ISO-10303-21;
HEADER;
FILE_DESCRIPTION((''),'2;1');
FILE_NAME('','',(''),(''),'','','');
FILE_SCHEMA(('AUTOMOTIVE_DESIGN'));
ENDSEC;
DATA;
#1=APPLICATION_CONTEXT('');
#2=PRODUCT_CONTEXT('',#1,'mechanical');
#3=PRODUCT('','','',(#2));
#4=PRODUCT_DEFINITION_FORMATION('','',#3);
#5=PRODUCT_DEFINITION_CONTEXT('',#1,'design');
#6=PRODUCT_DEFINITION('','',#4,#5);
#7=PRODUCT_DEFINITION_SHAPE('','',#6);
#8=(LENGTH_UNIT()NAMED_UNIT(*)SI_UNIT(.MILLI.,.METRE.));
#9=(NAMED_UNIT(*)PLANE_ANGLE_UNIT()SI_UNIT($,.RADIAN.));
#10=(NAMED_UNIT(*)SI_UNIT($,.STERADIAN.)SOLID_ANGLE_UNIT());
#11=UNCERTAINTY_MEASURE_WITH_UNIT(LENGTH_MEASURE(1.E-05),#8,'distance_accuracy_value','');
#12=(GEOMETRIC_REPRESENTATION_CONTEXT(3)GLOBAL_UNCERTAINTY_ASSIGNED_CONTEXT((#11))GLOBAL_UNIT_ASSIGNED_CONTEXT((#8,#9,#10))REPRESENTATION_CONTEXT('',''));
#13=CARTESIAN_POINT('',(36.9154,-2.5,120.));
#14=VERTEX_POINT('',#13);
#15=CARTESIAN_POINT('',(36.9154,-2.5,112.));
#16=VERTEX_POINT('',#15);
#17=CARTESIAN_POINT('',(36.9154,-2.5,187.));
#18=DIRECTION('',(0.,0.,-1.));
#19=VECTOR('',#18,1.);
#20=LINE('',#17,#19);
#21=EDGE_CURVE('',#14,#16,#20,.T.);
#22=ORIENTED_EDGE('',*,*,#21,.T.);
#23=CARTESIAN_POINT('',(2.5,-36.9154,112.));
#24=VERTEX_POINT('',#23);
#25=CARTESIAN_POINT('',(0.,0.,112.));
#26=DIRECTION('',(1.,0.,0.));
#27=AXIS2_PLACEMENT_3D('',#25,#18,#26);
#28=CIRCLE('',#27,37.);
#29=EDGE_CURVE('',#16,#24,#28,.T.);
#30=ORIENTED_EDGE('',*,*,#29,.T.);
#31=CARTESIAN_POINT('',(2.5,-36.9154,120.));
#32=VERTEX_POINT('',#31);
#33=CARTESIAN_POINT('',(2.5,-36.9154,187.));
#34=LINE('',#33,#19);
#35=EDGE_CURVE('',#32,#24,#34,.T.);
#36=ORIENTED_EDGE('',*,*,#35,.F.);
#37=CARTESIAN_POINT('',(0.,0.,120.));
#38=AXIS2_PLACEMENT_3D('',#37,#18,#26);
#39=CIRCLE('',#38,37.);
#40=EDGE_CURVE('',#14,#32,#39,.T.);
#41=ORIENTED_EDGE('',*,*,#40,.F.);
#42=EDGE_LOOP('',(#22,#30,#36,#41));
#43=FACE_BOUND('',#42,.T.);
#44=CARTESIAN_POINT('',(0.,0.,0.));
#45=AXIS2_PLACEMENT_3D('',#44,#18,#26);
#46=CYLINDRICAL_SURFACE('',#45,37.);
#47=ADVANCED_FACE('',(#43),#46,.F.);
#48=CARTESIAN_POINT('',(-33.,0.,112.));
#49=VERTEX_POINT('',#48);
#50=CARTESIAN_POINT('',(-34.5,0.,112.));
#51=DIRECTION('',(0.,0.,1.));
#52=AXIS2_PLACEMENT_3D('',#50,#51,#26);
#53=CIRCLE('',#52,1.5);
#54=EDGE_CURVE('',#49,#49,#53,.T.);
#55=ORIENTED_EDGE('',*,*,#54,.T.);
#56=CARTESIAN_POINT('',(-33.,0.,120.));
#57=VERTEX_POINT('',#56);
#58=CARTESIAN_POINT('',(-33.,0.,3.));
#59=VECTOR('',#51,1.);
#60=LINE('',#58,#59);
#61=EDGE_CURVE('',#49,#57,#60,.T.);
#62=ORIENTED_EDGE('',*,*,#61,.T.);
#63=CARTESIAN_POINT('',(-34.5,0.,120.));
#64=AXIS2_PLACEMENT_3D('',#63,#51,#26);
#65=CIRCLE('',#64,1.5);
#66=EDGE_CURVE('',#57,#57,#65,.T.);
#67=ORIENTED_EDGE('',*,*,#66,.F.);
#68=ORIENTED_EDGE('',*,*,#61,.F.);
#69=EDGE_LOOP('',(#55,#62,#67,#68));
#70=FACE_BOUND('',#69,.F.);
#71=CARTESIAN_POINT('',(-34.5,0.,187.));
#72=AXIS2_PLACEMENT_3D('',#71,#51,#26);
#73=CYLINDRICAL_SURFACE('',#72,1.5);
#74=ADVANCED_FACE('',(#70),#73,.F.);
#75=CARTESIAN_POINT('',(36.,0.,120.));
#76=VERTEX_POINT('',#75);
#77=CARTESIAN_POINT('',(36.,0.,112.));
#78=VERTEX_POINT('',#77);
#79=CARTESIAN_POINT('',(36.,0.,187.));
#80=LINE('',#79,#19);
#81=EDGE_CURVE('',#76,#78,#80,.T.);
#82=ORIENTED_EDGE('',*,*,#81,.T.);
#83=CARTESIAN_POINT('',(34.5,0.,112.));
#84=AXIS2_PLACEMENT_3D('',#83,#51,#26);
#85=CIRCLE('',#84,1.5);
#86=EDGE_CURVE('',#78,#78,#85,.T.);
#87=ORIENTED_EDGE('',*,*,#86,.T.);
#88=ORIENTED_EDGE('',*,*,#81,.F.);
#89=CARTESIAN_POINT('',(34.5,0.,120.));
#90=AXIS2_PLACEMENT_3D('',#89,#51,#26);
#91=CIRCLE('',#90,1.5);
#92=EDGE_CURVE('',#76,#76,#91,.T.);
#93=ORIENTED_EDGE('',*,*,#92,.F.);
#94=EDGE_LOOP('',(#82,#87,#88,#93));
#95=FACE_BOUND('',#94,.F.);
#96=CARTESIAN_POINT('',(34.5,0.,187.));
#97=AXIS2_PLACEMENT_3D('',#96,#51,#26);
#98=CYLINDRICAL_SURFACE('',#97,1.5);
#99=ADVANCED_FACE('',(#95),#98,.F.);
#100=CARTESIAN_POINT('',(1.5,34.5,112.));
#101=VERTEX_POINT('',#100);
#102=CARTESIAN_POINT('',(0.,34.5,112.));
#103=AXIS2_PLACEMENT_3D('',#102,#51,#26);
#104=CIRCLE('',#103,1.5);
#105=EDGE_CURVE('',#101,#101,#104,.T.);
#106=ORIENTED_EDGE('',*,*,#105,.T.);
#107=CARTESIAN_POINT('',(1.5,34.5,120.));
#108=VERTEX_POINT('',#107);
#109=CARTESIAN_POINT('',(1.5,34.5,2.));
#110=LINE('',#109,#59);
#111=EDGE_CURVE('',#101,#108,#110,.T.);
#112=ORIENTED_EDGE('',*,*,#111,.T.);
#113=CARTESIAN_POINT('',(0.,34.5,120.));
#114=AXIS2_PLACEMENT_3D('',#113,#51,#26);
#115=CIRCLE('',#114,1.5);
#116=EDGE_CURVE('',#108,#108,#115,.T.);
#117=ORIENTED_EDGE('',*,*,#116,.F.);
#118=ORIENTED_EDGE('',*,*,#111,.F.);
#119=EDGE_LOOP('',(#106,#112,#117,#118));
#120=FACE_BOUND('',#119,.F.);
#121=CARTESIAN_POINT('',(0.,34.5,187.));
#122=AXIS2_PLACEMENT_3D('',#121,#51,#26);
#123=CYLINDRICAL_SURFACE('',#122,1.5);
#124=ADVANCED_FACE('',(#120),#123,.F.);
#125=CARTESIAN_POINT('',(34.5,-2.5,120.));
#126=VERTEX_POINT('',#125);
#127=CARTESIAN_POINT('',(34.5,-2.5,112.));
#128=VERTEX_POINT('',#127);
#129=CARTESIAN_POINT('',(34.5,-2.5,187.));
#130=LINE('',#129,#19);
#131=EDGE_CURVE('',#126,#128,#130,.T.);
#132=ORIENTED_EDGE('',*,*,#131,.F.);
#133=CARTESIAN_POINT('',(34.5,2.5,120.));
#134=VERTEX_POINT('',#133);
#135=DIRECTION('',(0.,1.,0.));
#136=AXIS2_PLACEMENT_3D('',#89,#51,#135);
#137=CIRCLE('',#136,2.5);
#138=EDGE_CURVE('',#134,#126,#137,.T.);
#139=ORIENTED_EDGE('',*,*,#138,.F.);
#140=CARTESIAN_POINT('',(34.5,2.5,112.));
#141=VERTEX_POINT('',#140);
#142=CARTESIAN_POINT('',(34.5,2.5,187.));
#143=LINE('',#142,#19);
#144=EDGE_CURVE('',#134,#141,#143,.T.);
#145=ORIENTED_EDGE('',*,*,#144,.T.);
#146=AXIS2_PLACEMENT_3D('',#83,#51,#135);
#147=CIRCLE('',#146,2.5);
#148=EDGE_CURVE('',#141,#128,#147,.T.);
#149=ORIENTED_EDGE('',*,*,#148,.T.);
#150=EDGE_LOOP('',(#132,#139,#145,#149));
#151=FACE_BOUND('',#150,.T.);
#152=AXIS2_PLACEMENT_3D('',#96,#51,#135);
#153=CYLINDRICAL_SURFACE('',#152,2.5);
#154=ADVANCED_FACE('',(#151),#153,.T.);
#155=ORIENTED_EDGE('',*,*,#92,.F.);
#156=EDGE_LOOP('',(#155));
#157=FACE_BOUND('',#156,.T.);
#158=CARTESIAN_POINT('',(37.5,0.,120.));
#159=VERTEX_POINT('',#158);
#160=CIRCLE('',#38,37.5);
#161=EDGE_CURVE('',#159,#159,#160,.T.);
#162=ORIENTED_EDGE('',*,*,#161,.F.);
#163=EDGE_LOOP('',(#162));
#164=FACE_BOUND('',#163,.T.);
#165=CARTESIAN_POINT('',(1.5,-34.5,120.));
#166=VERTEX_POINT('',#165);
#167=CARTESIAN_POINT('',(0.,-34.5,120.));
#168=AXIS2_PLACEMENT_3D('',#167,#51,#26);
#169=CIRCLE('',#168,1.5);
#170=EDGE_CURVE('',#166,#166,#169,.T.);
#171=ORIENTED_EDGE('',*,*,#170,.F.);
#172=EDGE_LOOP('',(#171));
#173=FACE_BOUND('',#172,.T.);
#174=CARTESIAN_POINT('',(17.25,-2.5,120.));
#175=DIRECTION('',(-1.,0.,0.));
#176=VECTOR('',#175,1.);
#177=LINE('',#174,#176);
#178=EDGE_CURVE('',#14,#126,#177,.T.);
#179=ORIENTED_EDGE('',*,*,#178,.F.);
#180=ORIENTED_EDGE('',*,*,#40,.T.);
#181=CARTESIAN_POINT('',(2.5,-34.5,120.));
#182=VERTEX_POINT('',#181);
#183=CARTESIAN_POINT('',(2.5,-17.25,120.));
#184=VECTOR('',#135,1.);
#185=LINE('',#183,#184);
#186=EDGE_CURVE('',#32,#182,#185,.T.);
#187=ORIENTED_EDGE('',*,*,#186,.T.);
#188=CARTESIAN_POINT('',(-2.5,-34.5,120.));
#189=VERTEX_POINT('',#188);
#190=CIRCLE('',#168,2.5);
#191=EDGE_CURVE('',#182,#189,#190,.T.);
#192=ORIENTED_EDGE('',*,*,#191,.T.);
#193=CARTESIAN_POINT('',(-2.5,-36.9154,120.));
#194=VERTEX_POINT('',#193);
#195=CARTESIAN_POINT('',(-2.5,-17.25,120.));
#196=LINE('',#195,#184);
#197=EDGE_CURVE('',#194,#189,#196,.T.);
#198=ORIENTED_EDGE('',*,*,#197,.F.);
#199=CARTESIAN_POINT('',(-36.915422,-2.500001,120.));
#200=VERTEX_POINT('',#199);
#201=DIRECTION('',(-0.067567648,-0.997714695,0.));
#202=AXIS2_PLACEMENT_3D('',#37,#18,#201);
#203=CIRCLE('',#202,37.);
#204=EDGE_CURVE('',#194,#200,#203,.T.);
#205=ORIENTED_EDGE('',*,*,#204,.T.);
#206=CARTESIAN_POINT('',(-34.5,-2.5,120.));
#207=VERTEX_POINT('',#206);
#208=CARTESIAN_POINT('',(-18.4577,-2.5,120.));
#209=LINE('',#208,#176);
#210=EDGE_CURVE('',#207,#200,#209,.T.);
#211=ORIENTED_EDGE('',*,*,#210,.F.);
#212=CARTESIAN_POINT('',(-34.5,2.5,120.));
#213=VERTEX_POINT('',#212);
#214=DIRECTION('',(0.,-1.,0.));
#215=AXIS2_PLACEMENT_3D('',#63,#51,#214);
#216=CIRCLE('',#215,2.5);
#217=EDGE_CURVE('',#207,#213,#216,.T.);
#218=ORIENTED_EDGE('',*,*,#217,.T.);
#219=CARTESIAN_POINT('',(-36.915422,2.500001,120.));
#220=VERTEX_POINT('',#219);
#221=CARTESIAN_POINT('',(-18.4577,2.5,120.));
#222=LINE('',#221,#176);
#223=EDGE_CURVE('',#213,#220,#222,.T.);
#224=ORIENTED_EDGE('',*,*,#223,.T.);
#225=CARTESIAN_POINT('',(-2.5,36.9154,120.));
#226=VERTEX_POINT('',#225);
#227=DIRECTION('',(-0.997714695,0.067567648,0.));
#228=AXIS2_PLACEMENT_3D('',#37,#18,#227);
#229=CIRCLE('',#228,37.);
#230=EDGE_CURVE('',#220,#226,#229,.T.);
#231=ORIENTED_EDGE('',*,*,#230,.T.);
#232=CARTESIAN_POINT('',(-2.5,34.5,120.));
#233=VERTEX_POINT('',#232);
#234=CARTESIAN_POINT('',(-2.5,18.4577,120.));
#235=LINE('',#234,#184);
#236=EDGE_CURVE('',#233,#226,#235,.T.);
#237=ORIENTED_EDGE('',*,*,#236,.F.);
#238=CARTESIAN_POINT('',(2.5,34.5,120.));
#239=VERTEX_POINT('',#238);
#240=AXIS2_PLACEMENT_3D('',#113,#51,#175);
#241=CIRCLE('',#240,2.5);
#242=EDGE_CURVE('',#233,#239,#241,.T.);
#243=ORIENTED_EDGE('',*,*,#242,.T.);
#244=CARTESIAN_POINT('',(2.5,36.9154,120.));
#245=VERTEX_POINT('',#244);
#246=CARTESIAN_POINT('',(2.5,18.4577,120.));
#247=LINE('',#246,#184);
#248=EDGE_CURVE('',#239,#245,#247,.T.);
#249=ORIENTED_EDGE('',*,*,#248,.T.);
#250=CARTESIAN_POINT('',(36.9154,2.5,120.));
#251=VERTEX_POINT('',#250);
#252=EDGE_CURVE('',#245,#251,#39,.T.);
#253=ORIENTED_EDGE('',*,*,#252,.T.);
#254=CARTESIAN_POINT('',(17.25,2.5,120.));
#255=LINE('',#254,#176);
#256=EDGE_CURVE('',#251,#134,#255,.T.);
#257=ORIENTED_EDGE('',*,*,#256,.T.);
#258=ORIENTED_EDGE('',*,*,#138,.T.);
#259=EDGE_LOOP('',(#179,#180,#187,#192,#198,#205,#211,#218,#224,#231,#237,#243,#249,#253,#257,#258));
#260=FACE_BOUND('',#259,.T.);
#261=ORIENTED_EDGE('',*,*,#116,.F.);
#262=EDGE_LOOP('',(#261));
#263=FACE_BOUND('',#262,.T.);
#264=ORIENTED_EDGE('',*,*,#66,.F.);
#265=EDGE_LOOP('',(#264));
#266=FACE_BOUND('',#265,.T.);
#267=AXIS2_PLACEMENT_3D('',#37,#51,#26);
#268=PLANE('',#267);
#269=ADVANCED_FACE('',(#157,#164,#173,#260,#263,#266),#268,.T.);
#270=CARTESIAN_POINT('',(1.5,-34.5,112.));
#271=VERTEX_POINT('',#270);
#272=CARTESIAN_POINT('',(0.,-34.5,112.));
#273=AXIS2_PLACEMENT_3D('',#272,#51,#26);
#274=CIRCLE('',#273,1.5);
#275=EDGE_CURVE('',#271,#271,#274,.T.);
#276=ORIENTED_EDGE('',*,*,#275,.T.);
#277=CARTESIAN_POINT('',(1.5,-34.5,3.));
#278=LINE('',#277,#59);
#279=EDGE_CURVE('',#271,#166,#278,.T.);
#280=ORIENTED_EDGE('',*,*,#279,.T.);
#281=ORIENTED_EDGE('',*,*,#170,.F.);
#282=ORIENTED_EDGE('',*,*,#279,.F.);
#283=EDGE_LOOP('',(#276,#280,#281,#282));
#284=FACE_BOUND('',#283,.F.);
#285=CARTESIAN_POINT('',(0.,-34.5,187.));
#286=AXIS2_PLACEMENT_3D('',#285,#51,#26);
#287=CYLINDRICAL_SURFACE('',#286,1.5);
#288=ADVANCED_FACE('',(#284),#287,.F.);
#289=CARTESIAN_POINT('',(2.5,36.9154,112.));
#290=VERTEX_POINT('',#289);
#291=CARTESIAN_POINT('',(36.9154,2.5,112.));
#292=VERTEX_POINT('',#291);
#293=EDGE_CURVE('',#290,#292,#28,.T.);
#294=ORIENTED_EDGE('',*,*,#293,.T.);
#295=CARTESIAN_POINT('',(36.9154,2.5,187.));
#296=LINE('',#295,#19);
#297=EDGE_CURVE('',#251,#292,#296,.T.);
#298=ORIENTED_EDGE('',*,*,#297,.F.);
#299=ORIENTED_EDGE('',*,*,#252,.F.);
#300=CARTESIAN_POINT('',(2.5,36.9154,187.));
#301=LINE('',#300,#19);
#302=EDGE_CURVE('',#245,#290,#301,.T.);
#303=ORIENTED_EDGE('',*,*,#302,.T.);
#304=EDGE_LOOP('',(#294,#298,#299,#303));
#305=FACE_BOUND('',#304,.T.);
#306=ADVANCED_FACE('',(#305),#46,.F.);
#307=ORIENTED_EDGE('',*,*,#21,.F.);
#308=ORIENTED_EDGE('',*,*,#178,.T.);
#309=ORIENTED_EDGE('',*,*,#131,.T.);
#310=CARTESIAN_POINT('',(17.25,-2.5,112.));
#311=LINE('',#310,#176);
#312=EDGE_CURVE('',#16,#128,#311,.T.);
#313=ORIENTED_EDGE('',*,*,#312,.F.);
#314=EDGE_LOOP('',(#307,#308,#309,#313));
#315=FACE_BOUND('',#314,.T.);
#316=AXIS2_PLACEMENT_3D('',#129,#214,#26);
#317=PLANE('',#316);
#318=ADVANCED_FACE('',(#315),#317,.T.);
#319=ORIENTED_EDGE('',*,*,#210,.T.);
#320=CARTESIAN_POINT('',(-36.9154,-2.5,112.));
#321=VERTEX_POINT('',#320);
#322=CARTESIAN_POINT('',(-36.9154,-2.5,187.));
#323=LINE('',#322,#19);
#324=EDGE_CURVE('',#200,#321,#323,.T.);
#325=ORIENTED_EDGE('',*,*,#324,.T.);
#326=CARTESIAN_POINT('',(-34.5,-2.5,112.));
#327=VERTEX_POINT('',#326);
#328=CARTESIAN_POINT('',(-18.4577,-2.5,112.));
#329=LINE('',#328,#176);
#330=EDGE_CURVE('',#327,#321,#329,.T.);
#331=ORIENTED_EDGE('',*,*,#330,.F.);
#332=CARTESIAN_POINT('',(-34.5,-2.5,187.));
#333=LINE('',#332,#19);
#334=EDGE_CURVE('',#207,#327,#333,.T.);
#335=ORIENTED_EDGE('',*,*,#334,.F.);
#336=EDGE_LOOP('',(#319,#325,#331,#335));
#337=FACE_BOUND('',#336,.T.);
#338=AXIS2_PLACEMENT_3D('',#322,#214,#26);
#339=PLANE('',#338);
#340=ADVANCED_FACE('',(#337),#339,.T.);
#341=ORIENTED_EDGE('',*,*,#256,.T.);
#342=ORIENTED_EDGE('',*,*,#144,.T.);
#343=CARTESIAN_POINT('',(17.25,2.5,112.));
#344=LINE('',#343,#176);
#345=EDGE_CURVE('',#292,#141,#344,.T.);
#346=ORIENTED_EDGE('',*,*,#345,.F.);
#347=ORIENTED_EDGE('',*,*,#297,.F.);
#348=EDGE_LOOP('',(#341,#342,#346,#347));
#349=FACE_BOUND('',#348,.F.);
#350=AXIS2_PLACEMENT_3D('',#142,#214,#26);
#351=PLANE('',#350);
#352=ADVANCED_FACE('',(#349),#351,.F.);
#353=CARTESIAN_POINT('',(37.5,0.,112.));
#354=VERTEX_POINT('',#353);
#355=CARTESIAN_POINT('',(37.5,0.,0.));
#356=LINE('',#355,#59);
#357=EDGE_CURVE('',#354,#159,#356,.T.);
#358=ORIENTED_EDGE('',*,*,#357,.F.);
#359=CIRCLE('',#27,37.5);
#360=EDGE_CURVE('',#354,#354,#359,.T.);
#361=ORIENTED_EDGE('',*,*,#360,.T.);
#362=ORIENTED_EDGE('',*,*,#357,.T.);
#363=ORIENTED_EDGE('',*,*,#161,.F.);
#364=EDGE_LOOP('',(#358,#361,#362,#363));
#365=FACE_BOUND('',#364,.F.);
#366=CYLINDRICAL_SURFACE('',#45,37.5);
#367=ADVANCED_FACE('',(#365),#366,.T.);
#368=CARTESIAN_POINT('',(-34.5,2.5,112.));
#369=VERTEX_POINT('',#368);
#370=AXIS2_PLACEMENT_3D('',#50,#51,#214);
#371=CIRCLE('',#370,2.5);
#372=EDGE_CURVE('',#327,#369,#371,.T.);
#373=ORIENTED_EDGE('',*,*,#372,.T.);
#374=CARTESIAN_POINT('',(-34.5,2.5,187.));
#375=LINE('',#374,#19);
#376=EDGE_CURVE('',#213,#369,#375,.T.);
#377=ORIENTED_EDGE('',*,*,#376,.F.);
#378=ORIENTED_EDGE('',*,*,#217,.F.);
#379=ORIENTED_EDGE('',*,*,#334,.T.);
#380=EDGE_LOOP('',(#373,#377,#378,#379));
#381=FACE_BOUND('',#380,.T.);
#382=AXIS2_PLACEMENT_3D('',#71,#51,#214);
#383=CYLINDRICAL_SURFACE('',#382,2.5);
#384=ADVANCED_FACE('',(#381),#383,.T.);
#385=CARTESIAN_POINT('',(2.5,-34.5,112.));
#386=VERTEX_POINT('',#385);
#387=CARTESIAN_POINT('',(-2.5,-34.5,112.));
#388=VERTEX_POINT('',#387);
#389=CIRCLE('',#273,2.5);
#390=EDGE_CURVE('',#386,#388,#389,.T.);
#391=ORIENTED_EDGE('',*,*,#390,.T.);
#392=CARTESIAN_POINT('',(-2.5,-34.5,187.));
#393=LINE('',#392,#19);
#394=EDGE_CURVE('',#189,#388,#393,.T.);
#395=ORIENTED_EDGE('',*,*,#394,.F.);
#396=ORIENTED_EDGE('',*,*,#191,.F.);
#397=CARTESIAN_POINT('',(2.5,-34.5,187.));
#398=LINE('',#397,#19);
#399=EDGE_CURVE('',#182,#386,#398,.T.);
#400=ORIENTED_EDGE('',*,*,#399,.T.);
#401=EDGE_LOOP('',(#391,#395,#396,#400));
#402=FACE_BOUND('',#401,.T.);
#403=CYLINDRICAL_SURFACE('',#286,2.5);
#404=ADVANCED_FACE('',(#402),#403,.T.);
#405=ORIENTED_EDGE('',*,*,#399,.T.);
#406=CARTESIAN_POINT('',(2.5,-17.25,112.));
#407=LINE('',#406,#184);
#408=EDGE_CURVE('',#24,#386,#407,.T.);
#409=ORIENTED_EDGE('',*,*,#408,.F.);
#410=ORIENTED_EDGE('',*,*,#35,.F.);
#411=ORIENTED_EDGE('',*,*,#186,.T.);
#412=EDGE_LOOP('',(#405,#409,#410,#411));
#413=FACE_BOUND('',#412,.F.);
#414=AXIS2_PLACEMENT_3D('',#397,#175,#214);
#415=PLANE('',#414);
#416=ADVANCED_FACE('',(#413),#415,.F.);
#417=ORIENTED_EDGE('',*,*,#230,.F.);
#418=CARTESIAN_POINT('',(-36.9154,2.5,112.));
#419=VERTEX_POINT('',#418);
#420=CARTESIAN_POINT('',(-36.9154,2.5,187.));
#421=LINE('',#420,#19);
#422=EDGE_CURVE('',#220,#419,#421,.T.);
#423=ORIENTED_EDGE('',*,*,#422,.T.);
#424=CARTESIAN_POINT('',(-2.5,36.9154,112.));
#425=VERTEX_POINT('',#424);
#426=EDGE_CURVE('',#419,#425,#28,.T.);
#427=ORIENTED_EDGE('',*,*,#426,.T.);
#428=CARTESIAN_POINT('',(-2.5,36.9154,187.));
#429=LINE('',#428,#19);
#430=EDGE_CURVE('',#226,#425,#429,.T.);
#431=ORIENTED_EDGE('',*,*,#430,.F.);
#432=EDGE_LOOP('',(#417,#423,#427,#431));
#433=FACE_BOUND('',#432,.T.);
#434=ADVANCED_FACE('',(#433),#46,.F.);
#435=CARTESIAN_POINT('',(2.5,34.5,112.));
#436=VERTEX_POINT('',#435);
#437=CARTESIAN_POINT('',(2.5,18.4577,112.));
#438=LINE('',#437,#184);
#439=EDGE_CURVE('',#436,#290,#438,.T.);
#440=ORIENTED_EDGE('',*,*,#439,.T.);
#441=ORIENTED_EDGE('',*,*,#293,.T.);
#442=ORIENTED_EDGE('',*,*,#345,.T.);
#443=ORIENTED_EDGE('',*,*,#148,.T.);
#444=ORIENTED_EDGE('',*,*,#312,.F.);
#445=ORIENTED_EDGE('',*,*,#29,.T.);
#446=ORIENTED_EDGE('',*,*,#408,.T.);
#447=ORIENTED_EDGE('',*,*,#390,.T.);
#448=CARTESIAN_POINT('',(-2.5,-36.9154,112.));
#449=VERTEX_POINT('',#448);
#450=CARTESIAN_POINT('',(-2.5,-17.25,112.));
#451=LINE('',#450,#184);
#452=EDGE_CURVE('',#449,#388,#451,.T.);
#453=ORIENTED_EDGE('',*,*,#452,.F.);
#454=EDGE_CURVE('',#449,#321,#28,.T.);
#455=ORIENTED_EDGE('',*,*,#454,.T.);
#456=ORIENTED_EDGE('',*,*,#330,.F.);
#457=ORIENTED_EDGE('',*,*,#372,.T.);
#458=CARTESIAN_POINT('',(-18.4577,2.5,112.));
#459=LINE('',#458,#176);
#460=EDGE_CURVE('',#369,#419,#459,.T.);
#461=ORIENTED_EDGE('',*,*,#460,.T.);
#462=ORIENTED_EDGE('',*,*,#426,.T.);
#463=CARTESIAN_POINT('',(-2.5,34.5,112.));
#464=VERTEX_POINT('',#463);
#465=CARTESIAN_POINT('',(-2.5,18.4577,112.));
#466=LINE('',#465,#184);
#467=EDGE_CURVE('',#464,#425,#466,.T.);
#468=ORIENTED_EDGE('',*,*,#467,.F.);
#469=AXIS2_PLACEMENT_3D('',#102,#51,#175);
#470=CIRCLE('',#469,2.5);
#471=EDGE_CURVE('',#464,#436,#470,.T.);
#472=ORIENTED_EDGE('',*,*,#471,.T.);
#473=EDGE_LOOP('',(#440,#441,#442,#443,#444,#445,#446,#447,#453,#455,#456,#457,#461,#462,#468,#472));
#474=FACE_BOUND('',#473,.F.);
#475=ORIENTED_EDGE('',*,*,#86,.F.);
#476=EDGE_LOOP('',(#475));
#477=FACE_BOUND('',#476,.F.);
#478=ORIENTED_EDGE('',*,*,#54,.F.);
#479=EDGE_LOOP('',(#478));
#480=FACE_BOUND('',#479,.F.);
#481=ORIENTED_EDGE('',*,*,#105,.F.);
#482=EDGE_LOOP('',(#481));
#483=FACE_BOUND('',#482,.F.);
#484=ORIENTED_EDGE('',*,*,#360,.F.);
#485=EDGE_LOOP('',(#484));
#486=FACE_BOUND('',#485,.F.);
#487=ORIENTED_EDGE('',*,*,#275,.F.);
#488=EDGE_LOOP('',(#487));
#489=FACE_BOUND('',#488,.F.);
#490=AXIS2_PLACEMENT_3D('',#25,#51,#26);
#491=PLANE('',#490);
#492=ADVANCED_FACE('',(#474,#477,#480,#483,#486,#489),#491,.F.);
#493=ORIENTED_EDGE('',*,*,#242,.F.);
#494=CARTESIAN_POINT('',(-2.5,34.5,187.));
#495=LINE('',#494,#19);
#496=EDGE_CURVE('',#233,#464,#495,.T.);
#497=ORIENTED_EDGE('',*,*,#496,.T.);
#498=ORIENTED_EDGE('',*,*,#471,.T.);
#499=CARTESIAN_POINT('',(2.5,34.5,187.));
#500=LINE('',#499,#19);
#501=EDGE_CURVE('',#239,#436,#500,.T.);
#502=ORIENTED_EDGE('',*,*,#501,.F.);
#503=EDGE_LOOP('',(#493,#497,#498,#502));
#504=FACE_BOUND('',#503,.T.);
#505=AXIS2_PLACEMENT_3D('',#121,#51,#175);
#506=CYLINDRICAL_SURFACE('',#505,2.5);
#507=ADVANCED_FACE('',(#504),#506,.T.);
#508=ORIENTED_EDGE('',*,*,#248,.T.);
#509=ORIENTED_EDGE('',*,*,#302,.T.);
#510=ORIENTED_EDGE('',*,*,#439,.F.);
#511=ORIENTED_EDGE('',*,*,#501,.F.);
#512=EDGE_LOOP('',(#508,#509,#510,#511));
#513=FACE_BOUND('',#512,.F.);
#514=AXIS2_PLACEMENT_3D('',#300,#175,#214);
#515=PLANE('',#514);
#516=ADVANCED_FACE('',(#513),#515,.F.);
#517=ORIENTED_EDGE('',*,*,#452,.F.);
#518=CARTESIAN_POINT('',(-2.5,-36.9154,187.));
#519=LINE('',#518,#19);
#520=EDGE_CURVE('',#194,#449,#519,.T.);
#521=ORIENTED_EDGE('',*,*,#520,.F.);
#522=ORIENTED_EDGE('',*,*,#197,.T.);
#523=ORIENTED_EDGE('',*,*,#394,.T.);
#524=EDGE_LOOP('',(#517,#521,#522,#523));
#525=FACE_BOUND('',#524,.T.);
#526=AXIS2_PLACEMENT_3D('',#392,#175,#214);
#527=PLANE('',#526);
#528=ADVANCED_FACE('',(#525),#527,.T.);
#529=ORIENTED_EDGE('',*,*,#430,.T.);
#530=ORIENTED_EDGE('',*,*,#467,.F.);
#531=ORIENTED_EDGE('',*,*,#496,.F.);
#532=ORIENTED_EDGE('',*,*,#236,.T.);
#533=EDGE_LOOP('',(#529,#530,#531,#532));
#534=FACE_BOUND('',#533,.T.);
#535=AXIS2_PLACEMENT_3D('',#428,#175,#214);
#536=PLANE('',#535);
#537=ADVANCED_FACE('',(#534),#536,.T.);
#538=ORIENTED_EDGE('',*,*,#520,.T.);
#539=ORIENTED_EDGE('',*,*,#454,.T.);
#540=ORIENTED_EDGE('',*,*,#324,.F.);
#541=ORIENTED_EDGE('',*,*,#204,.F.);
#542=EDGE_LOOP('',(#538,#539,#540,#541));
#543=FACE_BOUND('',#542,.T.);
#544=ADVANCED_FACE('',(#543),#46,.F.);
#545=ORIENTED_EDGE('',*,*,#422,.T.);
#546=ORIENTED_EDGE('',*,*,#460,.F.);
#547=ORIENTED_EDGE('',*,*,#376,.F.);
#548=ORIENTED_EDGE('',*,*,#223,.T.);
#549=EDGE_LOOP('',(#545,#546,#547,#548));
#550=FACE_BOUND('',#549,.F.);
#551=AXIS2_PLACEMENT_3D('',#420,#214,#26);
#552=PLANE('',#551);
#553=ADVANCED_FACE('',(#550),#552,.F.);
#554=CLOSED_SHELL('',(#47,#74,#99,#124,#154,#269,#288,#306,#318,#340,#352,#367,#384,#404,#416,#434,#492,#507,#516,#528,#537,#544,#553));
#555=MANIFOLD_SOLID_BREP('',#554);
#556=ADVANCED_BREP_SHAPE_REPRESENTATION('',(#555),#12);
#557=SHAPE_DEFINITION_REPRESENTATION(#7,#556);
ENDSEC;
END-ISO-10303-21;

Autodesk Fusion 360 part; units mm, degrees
sketch "Esboço2" plane through (0, 0, 0) normal (0, 0, 1) x (1, 0, 0)
  circle A0 centre (0, 0) radius 37.5
  circle A1 centre (0, 0) radius 37
  dimension "d6" = 75
  dimension "d7" = 74
extrude "Extrusão2" add sketch "Esboço2" along normal blind 190
ref_plane "Plano de trabalho9" through (0, 0, 187) normal (0, 0, 1) x (1, 0, 0)
sketch "Esboço10" plane through (0, 0, 187) normal (0, 0, 1) x (1, 0, 0)
  circle A0 centre (0, 0) radius 34.5 construction
  line L0 (0, 0) -> (-68.1762, 0) construction
  line L1 (0, 0) -> (60, 0) construction
  line L2 (0, 0) -> (0, 45) construction
  line L3 (0, 0) -> (0, -43.1659) construction
  circle A1 centre (34.5, 0) radius 1.5
  line L4 (3, -43) -> (3, -42)
  circle A2 centre (0, 34.5) radius 1.5
  circle A3 centre (-34.5, 0) radius 1.5
  circle A4 centre (0, -34.5) radius 1.5
  arc A5 (34.5, 2.5) -> (34.5, -2.5) centre (34.5, 0) ccw
  arc A6 (-2.5, 34.5) -> (2.5, 34.5) centre (0, 34.5) ccw
  arc A7 (-34.5, -2.5) -> (-34.5, 2.5) centre (-34.5, 0) ccw
  arc A8 (2.5, -34.5) -> (-2.5, -34.5) centre (0, -34.5) ccw
  circle A9 centre (0, 0) radius 37
  line L5 (-36.9154, 2.5) -> (-34.4093, 2.5)
  line L6 (-36.9154, -2.5) -> (-34.4093, -2.5)
  line L7 (34.5, 2.5) -> (36.9154, 2.5)
  line L8 (34.5, -2.5) -> (36.9154, -2.5)
  line L9 (2.5, 36.9154) -> (2.5, 34.4093)
  line L10 (-2.5, 36.9154) -> (-2.5, 34.4093)
  line L11 (-2.5, -34.4093) -> (-2.5, -36.9154)
  line L12 (2.5, -34.4093) -> (2.5, -36.9154)
  dimension "d82" = 69
  dimension "d83" = 3
  dimension "d84" = 2.5
  dimension "d85" = 2.5
  dimension "d87" = 360
  dimension "d89" = 360
  dimension "d90" = 2.5
extrude "Extrusão12" add sketch "Esboço10" against normal blind 184 contours A5 A9 L7 L8 | A6 A9 L9 L10 | A8 A9 L11 L12 | A7 A9 L5 L6
thread "Rosca3"
ref_plane "Plano de trabalho3" through (0, 0, 32) normal (0, 0, 1) x (1, 0, 0)
sketch "Esboço3" plane through (0, 0, 32) normal (0, 0, 1) x (1, 0, 0)
  line L0 (0, 0) -> (0, 37) construction
  line L1 (34.2491, 14) -> (-34.2491, 14)
  circle A0 centre (0, 0) radius 37
  line L2 (31.1288, 20) -> (-31.1288, 20)
  line L3 (32.8634, 17) -> (-32.8634, 17)
  circle A1 centre (0, 0) radius 50
  circle A2 centre (0, 0) radius 37.5
  line L4 (-8, 0) -> (8, 0)
  line L5 (8, 0) -> (8, 36.1248)
  line L6 (-8, 0) -> (-8, 36.1248)
  circle A3 centre (0, 34.5) radius 1.5
  line L7 (1.5, 32.5) -> (1.5, 0)
  arc A4 (-2.5, 34.5) -> (2.5, 34.5) centre (0, 34.5) ccw
  line L8 (-1.5, 32.5) -> (-1.5, 0)
  line L9 (27.8634, 24.3441) -> (27.8634, 11)
  line L10 (27.8634, 11) -> (35.327, 11)
  line L11 (-27.8634, 11) -> (-35.327, 11)
  line L12 (-27.8634, 24.3441) -> (-27.8634, 11)
  line L13 (-30.4631, 21) -> (30.4631, 21)
  line L14 (-34.641, 13) -> (34.641, 13)
  line L15 (0, 32) -> (8, 32)
  line L16 (0, 32) -> (-8, 32)
  dimension "d12" = 6
  dimension "d15" = 3
  dimension "d17" = 75
  dimension "d18" = 100
  dimension "d41" = 14
  dimension "d51" = 8
  dimension "d52" = 16
  dimension "d99" = 3
  dimension "d100" = 2.5
  dimension "d115" = 6.5
  dimension "d123" = 5
  dimension "d124" = 6
  dimension "d143" = 4
  dimension "d144" = 4
extrude "Extrusão21" add sketch "Esboço3" along normal blind 6 and the other way blind 6 contours L1 A0 L9 L14 | L1 A0 L3 L9 | A0 L9 L10 L14 | A0 L2 L3 L9 | A0 L2 L9 L13 | A0 L9 L13 | A0 L11 L12 L14 | L1 A0 L12 L14 | L1 A0 L3 L12 | A0 L2 L3 L12 | A0 L12 L13 | A0 L2 L12 L13
sketch "Esboço18" plane through (-27.8634, 0, 0) normal (1, 0, 0) x (0, 1, 0)
  line L0 (24.3441, 26) -> (24.3441, 38)
  line L1 (24.3441, 38) -> (11, 38)
  line L2 (11, 38) -> (11, 26)
  line L3 (11, 26) -> (24.3441, 26)
  circle A0 centre (17, 32) radius 4
  point P0 (11, 32)
  dimension "d166" = 8
  dimension "d167" = 6
  dimension "d168" = 6
ref_plane "Plano de trabalho11" through (0, 0, 0) normal (1, 0, 0) x (0, 1, 0)
extrude "Extrusão23" cut sketch "Esboço18" against normal blind 15 contours A0
extrude "Extrusão7" add sketch "Esboço3" along normal blind 30 and the other way blind 30 contours L1 L5 L7 L14 | L1 L3 L5 L7 | L4 L5 L7 L14 | L2 L3 L5 L7 | L1 L6 L8 L14 | L1 L3 L6 L8 | L2 L5 L7 L13 | L2 L3 L6 L8 | L4 L6 L8 L14 | L5 L7 L13 L15 | A0 L5 L6 L7 A4 L8 L15 L16 | L2 L6 L8 L13 | L6 L8 L13 L16 | L7 A4 L15 | A4 L8 L16
sketch "Esboço19" plane through (27.8634, 0, 0) normal (-1, 0, 0) x (0, -1, 0)
  line L0 (-11, 26) -> (-11, 38)
  line L1 (-11, 38) -> (-24.3441, 38)
  line L2 (-24.3441, 38) -> (-24.3441, 26)
  line L3 (-24.3441, 26) -> (-11, 26)
extrude "Extrusão24" cut sketch "Esboço18" along normal blind 80 contours A0
sketch "Esboço11" plane through (8, 0, 0) normal (1, 0, 0) x (0, 1, 0)
  line L0 (0, 2) -> (36.1248, 2)
  line L1 (36.1248, 2) -> (36.1248, 62)
  line L2 (36.1248, 62) -> (0, 62)
  line L3 (0, 62) -> (0, 2)
  circle A0 centre (17, 32) radius 3
  circle A1 centre (17, 32) radius 9.5
  circle A2 centre (17, 32) radius 12.5
  line L4 (36.1248, 32) -> (36.1248, -5) construction
  line L5 (0, 32) -> (36.1248, 32)
  line L6 (30.1248, 2) -> (8.3278, 22.9976)
  line L7 (30.1248, 62) -> (8.3278, 41.0024)
  line L8 (30.1248, 2) -> (31.9998, 2)
  line L9 (31.9998, 2) -> (31.9998, 32)
  line L10 (30.1248, 62) -> (31.9998, 62)
  line L11 (31.9998, 62) -> (31.9998, 32)
  circle A3 centre (17, 32) radius 4
  point P0 (14, 32)
  point P1 (20, 32)
  dimension "d106" = 6
  dimension "d107" = 19
  dimension "d109" = 25
  dimension "d110" = 6
  dimension "d147" = 1.875
extrude "Extrusão13" cut sketch "Esboço11" against normal blind 16 contours L0 L3 A2 L5 L6 | L0 A2 L5 L6 L8 L9 | L2 L3 A2 L5 L7 | A1 A2 L5 | A1 A2 L5 | L2 A2 L5 L7 L10 L11 | A1 L5 A3 | A1 L5 A3 | A0 L5 A3 | A0 L5 A3 | A0 L5 | A0 L5
ref_plane "Plano de trabalho4" through (0, 0, 150) normal (0, 0, 1) x (1, 0, 0)
sketch "Esboço4" plane through (0, 0, 150) normal (0, 0, 1) x (1, 0, 0)
  circle A0 centre (0, 0) radius 37
  circle A1 centre (0, 0) radius 50
  circle A2 centre (0, 0) radius 37.5
  line L0 (-20, -31.1288) -> (-20, 31.1288)
  line L1 (-17, -32.8634) -> (-17, 32.8634)
  line L2 (-14, -34.2491) -> (-14, 34.2491)
  line L3 (0, 8) -> (0, -8)
  line L4 (0, 8) -> (-36.1248, 8)
  line L5 (0, -8) -> (-36.1248, -8)
  line L6 (0, 0) -> (-37, 0) construction
  circle A3 centre (-34.5, 0) radius 1.5
  line L7 (0, 1.5) -> (-32.5, 1.5)
  arc A4 (-34.5, -2.5) -> (-34.5, 2.5) centre (-34.5, 0) ccw
  line L8 (0, -1.5) -> (-32.5, -1.5)
  line L9 (-24.3441, -27.8634) -> (-11, -27.8634)
  line L10 (-11, -27.8634) -> (-11, -35.327)
  line L11 (-24.3441, 27.8634) -> (-11, 27.8634)
  line L12 (-11, 27.8634) -> (-11, 35.327)
  line L13 (-13, 34.641) -> (-13, -34.641)
  line L14 (-21, 30.4631) -> (-21, -30.4631)
  line L15 (-32, 0) -> (-32, 8)
  line L16 (-32, 0) -> (-32, -8)
  dimension "d28" = 75
  dimension "d29" = 100
  dimension "d38" = 14
  dimension "d39" = 6
  dimension "d40" = 3
  dimension "d43" = 16
  dimension "d44" = 8
  dimension "d101" = 3
  dimension "d102" = 2.5
  dimension "d116" = 6.5
  dimension "d135" = 6
  dimension "d136" = 5
  dimension "d145" = 4
  dimension "d146" = 4
extrude "Extrusão25" add sketch "Esboço4" along normal blind 6 and the other way blind 6 contours A0 L11 L12 L13 | A0 L9 L10 L13 | A0 L2 L11 L13 | A0 L2 L9 L13 | A0 L1 L2 L11 | A0 L1 L2 L9 | A0 L0 L1 L11 | A0 L0 L1 L9 | A0 L0 L11 L14 | A0 L0 L9 L14 | A0 L11 L14 | A0 L9 L14
sketch "Esboço20" plane through (0, 27.8634, 0) normal (0, -1, 0) x (1, 0, 0)
  line L0 (-11, 144) -> (-11, 156)
  line L1 (-11, 156) -> (-24.3441, 156)
  line L2 (-24.3441, 156) -> (-24.3441, 144)
  line L3 (-24.3441, 144) -> (-11, 144)
  circle A0 centre (-17, 150) radius 4
  dimension "d179" = 8
  dimension "d180" = 6
  dimension "d182" = 6
extrude "Extrusão26" cut sketch "Esboço20" against normal blind 15 contours A0
sketch "Esboço21" plane through (0, -27.8634, 0) normal (0, 1, 0) x (-1, 0, 0)
  line L0 (24.3441, 144) -> (24.3441, 156)
  line L1 (24.3441, 156) -> (11, 156)
  line L2 (11, 156) -> (11, 144)
  line L3 (11, 144) -> (24.3441, 144)
  circle A0 centre (17, 150) radius 4
  dimension "d185" = 8
  dimension "d186" = 6
  dimension "d187" = 6
extrude "Extrusão27" cut sketch "Esboço21" against normal blind 15 contours A0
extrude "Extrusão6" add sketch "Esboço4" along normal blind 30 and the other way blind 30 contours L2 L4 L7 L13 | L3 L4 L7 L13 | L3 L5 L8 L13 | L2 L5 L8 L13 | L1 L2 L4 L7 | L1 L2 L5 L8 | L0 L1 L4 L7 | L0 L1 L5 L8 | L0 L4 L7 L14 | L0 L5 L8 L14 | A0 L4 L5 L7 A4 L8 L15 L16 | L4 L7 L14 L15 | L5 L8 L14 L16 | L7 A4 L15 | A4 L8 L16
sketch "Esboço13" plane through (0, -8, 0) normal (0, -1, 0) x (1, 0, 0)
  line L0 (0, 120) -> (0, 180)
  line L1 (0, 180) -> (-36.1248, 180)
  line L2 (-36.1248, 180) -> (-36.1248, 120)
  line L3 (-36.1248, 120) -> (0, 120)
  circle A0 centre (-17, 150) radius 3
  circle A1 centre (-17, 150) radius 9.5
  circle A2 centre (-17, 150) radius 12.5
  line L4 (-36.1248, 150) -> (-36.1248, 198.4836) construction
  line L5 (-30.1248, 180) -> (-6.6704, 157.4058)
  line L6 (0, 150) -> (-36.1248, 150)
  line L7 (-30.1248, 120) -> (-6.6704, 142.5942)
  line L8 (-30.1248, 180) -> (-31.9998, 180)
  line L9 (-31.9998, 180) -> (-31.9998, 150)
  line L10 (-30.1248, 120) -> (-31.9998, 120)
  line L11 (-31.9998, 120) -> (-31.9998, 150)
  point P0 (-14, 150)
  point P1 (-20, 150)
  dimension "d117" = 6
  dimension "d118" = 19
  dimension "d119" = 25
  dimension "d120" = 6
  dimension "d148" = 1.875
extrude "Extrusão14" cut sketch "Esboço13" against normal blind 16 contours L0 L3 A2 L6 L7 | L0 L1 A2 L5 L6 | L3 A2 L6 L7 L10 L11 | A1 A2 L6 | A1 A2 L6 | L1 A2 L5 L6 L8 L9 | A0 A1 L6 | A0 A1 L6 | A0 L6 | A0 L6
ref_plane "Plano de trabalho5" through (0, 0, 0) normal (1, 0, 0) x (0, 1, 0)
ref_plane "Plano de trabalho6" through (0, 0, 0) normal (0, 1, 0) x (0, 0, 1)
ref_plane "Plano de trabalho7" through (0, 0, 134.3) normal (0, 0, 1) x (1, 0, 0)
sketch "Esboço8" plane through (0, 0, 134.3) normal (0, 0, 1) x (1, 0, 0)
  line L0 (46.3444, 0) -> (0, 0) construction
  line L1 (8, 36.1248) -> (8, -36.1248)
  line L2 (-8, -36.1248) -> (-8, 36.1248)
  circle A0 centre (0, 0) radius 37
  line L3 (0, 0) -> (0, 37) construction
  circle A1 centre (0, 34.5) radius 1.5
  circle A2 centre (0, -34.5) radius 1.5
  dimension "d72" = 8
  dimension "d73" = 8
  dimension "d95" = 2.5
  dimension "d96" = 3
extrude "Extrusão10" add sketch "Esboço8" along normal blind 2 contours L1 L2 A0
ref_plane "Plano de trabalho8" through (0, 0, 45.7) normal (0, 0, 1) x (1, 0, 0)
sketch "Esboço9" plane through (0, 0, 45.7) normal (0, 0, 1) x (1, 0, 0)
  line L0 (0, 0) -> (-37, 0) construction
  line L1 (-36.1248, 8) -> (36.1248, 8)
  line L2 (-36.1248, -8) -> (36.1248, -8)
  circle A0 centre (0, 0) radius 37
  circle A1 centre (-34.5, 0) radius 1.5
  line L3 (0, 0) -> (0, 43.2459) construction
  circle A2 centre (34.5, 0) radius 1.5
  dimension "d77" = 8
  dimension "d78" = 8
  dimension "d97" = 3
  dimension "d98" = 2.5
extrude "Extrusão11" add sketch "Esboço9" along normal blind 2 contours L1 L2 A0
ref_plane "Plano de trabalho10" through (8, 18.0624, 32) normal (1, 0, 0) x (0, 1, 0)
sketch "Esboço16" plane through (-31.9998, 0, 0) normal (1, 0, 0) x (0, 1, 0)
  line L0 (1.5, 180) -> (1.5, 120)
  line L1 (1.5, 120) -> (8, 120)
  line L2 (8, 120) -> (8, 180)
  line L3 (8, 180) -> (1.5, 180)
  line L4 (4.75, 180) -> (4.75, 120) construction
  circle A0 centre (4.75, 170) radius 1.5
  circle A1 centre (4.75, 130) radius 1.5
  line L5 (8, 150) -> (-12.335, 150) construction
  line L6 (0, 2.5) -> (0, 20)
  circle A2 centre (-4.75, 170) radius 1.5
  circle A3 centre (-4.75, 130) radius 1.5
  dimension "d149" = 3
  dimension "d150" = 3
  dimension "d151" = 40
  dimension "d152" = 20
extrude "Extrusão19" cut sketch "Esboço16" against normal blind 10 contours A0 | A1 | A2 | A3
sketch "Esboço17" plane through (0, 31.9998, 0) normal (0, -1, 0) x (1, 0, 0)
  line L0 (1.5, 62) -> (1.5, 2)
  line L1 (1.5, 2) -> (8, 2)
  line L2 (8, 2) -> (8, 62)
  line L3 (8, 62) -> (1.5, 62)
  line L4 (4.75, 2) -> (4.75, 62) construction
  line L5 (8, 32) -> (-12, 32) construction
  circle A0 centre (4.75, 52) radius 1.5
  circle A1 centre (4.75, 12) radius 1.5
  line L6 (0, 1.75) -> (0, 22.5)
  circle A2 centre (-4.75, 12) radius 1.5
  circle A3 centre (-4.75, 52) radius 1.5
  dimension "d155" = 3
  dimension "d156" = 3
  dimension "d157" = 40
  dimension "d158" = 20
extrude "Extrusão20" cut sketch "Esboço17" against normal blind 10 contours A0 | A1 | A2 | A3
thread "Rosca4"
thread "Rosca5"
sketch "Esboço22" plane through (0, 0, 136.3) normal (0, 0, 1) x (-1, 0, 0)
  line L0 (2.5, 36.9154) -> (2.5, 34.5)
  arc A0 (-2.5, 34.5) -> (2.5, 34.5) centre (0, 34.5) ccw
  line L1 (-2.5, 34.5) -> (-2.5, 36.9154)
  arc A1 (-2.5, 36.9154) -> (-8, 36.1248) centre (0, 0) ccw
  line L2 (-8, 36.1248) -> (-8, -36.1248)
  arc A2 (-8, -36.1248) -> (-2.5, -36.9154) centre (0, 0) ccw
  line L3 (-2.5, -36.9154) -> (-2.5, -34.5)
  arc A3 (2.5, -34.5) -> (-2.5, -34.5) centre (0, -34.5) ccw
  line L4 (2.5, -34.5) -> (2.5, -36.9154)
  arc A4 (2.5, -36.9154) -> (8, -36.1248) centre (0, 0) ccw
  line L5 (8, -36.1248) -> (8, 36.1248)
  arc A5 (8, 36.1248) -> (2.5, 36.9154) centre (0, 0) ccw
  line L6 (0, 0) -> (-21, 0) construction
  line L7 (0, 0) -> (0, -19.3) construction
  line L8 (2, -15.8) -> (-2, -15.8)
  arc A6 (-2, -15.8) -> (-2, -22.8) centre (-2, -19.3) ccw
  line L9 (-2, -22.8) -> (2, -22.8)
  arc A7 (2, -22.8) -> (2, -15.8) centre (2, -19.3) ccw
  line L10 (2, -19.3) -> (-2, -19.3) construction
  arc A8 (-2, 22.8) -> (-2, 15.8) centre (-2, 19.3) ccw
  line L11 (2, 15.8) -> (-2, 15.8)
  arc A9 (2, 15.8) -> (2, 22.8) centre (2, 19.3) ccw
  line L12 (-2, 22.8) -> (2, 22.8)
  circle A10 centre (0, 10.8) radius 1.5 construction
  line L13 (2, 19.3) -> (-2, 19.3) construction
  line L14 (2, 12.3) -> (-2, 12.3)
  arc A11 (-2, 12.3) -> (-2, 9.3) centre (-2, 10.8) ccw
  line L15 (-2, 9.3) -> (2, 9.3)
  arc A12 (2, 9.3) -> (2, 12.3) centre (2, 10.8) ccw
  line L16 (2, 10.8) -> (-2, 10.8) construction
  line L17 (2, 26.3) -> (-2, 26.3)
  arc A13 (2, 26.3) -> (2, 29.3) centre (2, 27.8) ccw
  line L18 (-2, 29.3) -> (2, 29.3)
  arc A14 (-2, 29.3) -> (-2, 26.3) centre (-2, 27.8) ccw
  arc A15 (2, -29.3) -> (2, -26.3) centre (2, -27.8) ccw
  line L19 (2, -26.3) -> (-2, -26.3)
  arc A16 (-2, -26.3) -> (-2, -29.3) centre (-2, -27.8) ccw
  line L20 (-2, -29.3) -> (2, -29.3)
  arc A17 (2, -12.3) -> (2, -9.3) centre (2, -10.8) ccw
  line L21 (-2, -9.3) -> (2, -9.3)
  arc A18 (-2, -9.3) -> (-2, -12.3) centre (-2, -10.8) ccw
  line L22 (2, -12.3) -> (-2, -12.3)
  point P0 (0, -19.3)
  point P1 (0, 10.8)
  dimension "d191" = 19.3
  dimension "d195" = 2
  dimension "d196" = 3.5
  dimension "d204" = 3
  dimension "d205" = 8.5
  dimension "d230" = 1.5
  dimension "d231" = 4
extrude "Extrusão28" cut sketch "Esboço22" against normal blind 5 contours L8 A6 L9 A7 | A8 L11 A9 L12 | L14 A11 L15 A12 | L17 A13 L18 A14 | A15 L19 A16 L20 | A17 L21 A18 L22
sketch "Esboço23" plane through (0, 0, 45.7) normal (0, 0, -1) x (1, 0, 0)
  line L0 (36.9154, -2.5) -> (34.5, -2.5)
  arc A0 (34.5, 2.5) -> (34.5, -2.5) centre (34.5, 0) ccw
  line L1 (34.5, 2.5) -> (36.9154, 2.5)
  arc A1 (36.9154, 2.5) -> (36.1248, 8) centre (0, 0) ccw
  line L2 (36.1248, 8) -> (-36.1248, 8)
  arc A2 (-36.1248, 8) -> (-36.9154, 2.5) centre (0, 0) ccw
  line L3 (-36.9154, 2.5) -> (-34.5, 2.5)
  arc A3 (-34.5, -2.5) -> (-34.5, 2.5) centre (-34.5, 0) ccw
  line L4 (-34.5, -2.5) -> (-36.9154, -2.5)
  arc A4 (-36.9154, -2.5) -> (-36.1248, -8) centre (0, 0) ccw
  line L5 (-36.1248, -8) -> (36.1248, -8)
  arc A5 (36.1248, -8) -> (36.9154, -2.5) centre (0, 0) ccw
  line L6 (0, 0) -> (0, -19) construction
  line L7 (0, 0) -> (19.3, 0)
  line L8 (15.8, 2.5) -> (15.8, -2.5)
  arc A6 (15.8, -2.5) -> (22.8, -2.5) centre (19.3, -2.5) ccw
  line L9 (22.8, -2.5) -> (22.8, 2.5)
  arc A7 (22.8, 2.5) -> (15.8, 2.5) centre (19.3, 2.5) ccw
  line L10 (19.3, 2.5) -> (19.3, -2.5) construction
  line L11 (-15.8, 2.5) -> (-15.8, -2.5)
  arc A8 (-15.8, 2.5) -> (-22.8, 2.5) centre (-19.3, 2.5) ccw
  line L12 (-22.8, -2.5) -> (-22.8, 2.5)
  arc A9 (-22.8, -2.5) -> (-15.8, -2.5) centre (-19.3, -2.5) ccw
  circle A10 centre (10.8, 0) radius 1.5 construction
  circle A11 centre (27.8, 0) radius 1.5 construction
  line L13 (9.3, 2.5) -> (9.3, -2.5)
  arc A12 (9.3, -2.5) -> (12.3, -2.5) centre (10.8, -2.5) ccw
  line L14 (12.3, -2.5) -> (12.3, 2.5)
  arc A13 (12.3, 2.5) -> (9.3, 2.5) centre (10.8, 2.5) ccw
  line L15 (10.8, 2.5) -> (10.8, -2.5) construction
  line L16 (26.3, -2.5) -> (26.3, 2.5)
  arc A14 (26.3, -2.5) -> (29.3, -2.5) centre (27.8, -2.5) ccw
  line L17 (29.3, 2.5) -> (29.3, -2.5)
  arc A15 (29.3, 2.5) -> (26.3, 2.5) centre (27.8, 2.5) ccw
  line L18 (-12.3, -2.5) -> (-12.3, 2.5)
  arc A16 (-12.3, -2.5) -> (-9.3, -2.5) centre (-10.8, -2.5) ccw
  line L19 (-9.3, 2.5) -> (-9.3, -2.5)
  arc A17 (-9.3, 2.5) -> (-12.3, 2.5) centre (-10.8, 2.5) ccw
  line L20 (-26.3, -2.5) -> (-26.3, 2.5)
  arc A18 (-29.3, -2.5) -> (-26.3, -2.5) centre (-27.8, -2.5) ccw
  line L21 (-29.3, 2.5) -> (-29.3, -2.5)
  arc A19 (-26.3, 2.5) -> (-29.3, 2.5) centre (-27.8, 2.5) ccw
  point P0 (19.3, 0)
  point P1 (10.8, 0)
  dimension "d199" = 3.5
  dimension "d200" = 5
  dimension "d201" = 19.3
  dimension "d206" = 3
  dimension "d207" = 8.5
  dimension "d228" = 2.5
  dimension "d229" = 1.5
extrude "Extrusão29" cut sketch "Esboço23" against normal blind 10 contours L7 L13 L14 A13 | L8 A6 L9 A7 | L7 L13 A12 L14 | L11 A8 L12 A9 | L16 A14 L17 A15 | L20 A18 L21 A19
ref_plane "Plano de trabalho12" through (0, 0, 106.3) normal (0, 0, 1) x (1, 0, 0)
sketch "Esboço24" plane through (0, 0, 106.3) normal (0, 0, 1) x (1, 0, 0)
  line L0 (0, 0) -> (28.1868, 0) construction
  line L1 (16, 0) -> (16, 33.3617)
  circle A0 centre (0, 0) radius 37
  line L2 (16, 0) -> (16, -33.3617)
  line L3 (0, 0) -> (0, 19.3) construction
  line L4 (-16, 0) -> (-16, 33.3617)
  line L5 (-16, 0) -> (-16, -33.3617)
  line L6 (-2, 6.8) -> (2, 6.8)
  arc A1 (2, 6.8) -> (2, 31.8) centre (2, 19.3) ccw
  line L7 (2, 31.8) -> (-2, 31.8)
  arc A2 (-2, 31.8) -> (-2, 6.8) centre (-2, 19.3) ccw
  line L8 (-2, 19.3) -> (2, 19.3) construction
  arc A3 (2, -31.8) -> (2, -6.8) centre (2, -19.3) ccw
  arc A4 (-2, -6.8) -> (-2, -31.8) centre (-2, -19.3) ccw
  line L9 (-2, -6.8) -> (2, -6.8)
  line L10 (2, -31.8) -> (-2, -31.8)
  circle A5 centre (0, 34.5) radius 1.5
  circle A6 centre (0, -34.5) radius 1.5
  point P0 (0, 19.3)
  dimension "d209" = 16
  dimension "d210" = 12.5
  dimension "d211" = 4
  dimension "d212" = 19.3
  dimension "d215" = 3
  dimension "d216" = 34.5
ref_plane "Plano de trabalho13" through (0, 0, 55.7) normal (0, 0, -1) x (-1, 0, 0)
ref_plane "Plano de trabalho14" through (0, 0, 60) normal (0, 0, 1) x (1, 0, 0)
sketch "Esboço25" plane through (0, 0, 55.7) normal (0, 0, -1) x (1, 0, 0)
  line L0 (-33.3617, 16) -> (33.3617, 16)
  circle A0 centre (0, 0) radius 37
  line L1 (0, 0) -> (-19.3, 0) construction
  line L2 (-33.3617, -16) -> (33.3617, -16)
  line L3 (-6.8, -2) -> (-6.8, 2)
  arc A1 (-6.8, 2) -> (-31.8, 2) centre (-19.3, 2) ccw
  line L4 (-31.8, 2) -> (-31.8, -2)
  arc A2 (-31.8, -2) -> (-6.8, -2) centre (-19.3, -2) ccw
  line L5 (-19.3, -2) -> (-19.3, 2) construction
  circle A3 centre (-34.5, 0) radius 1.5
  line L6 (0, 0) -> (0, -12) construction
  arc A4 (31.8, 2) -> (6.8, 2) centre (19.3, 2) ccw
  line L7 (6.8, -2) -> (6.8, 2)
  arc A5 (6.8, -2) -> (31.8, -2) centre (19.3, -2) ccw
  circle A6 centre (34.5, 0) radius 1.5
  line L8 (31.8, 2) -> (31.8, -2)
  point P0 (-19.3, 0)
  dimension "d219" = 16
  dimension "d220" = 12.5
  dimension "d221" = 4
  dimension "d222" = 19.3
  dimension "d224" = 34.5
  dimension "d225" = 3
ref_plane "Plano de trabalho15" through (0, 0, 112) normal (0, 0, 1) x (1, 0, 0)
ref_plane "Plano de trabalho16" through (0, 0, 120) normal (0, 0, 1) x (1, 0, 0)
sketch "Esboço26" plane through (0, 0, 112) normal (0, 0, 1) x (1, 0, 0)
  circle A0 centre (0, 0) radius 44.6295
extrude "Extrusão32" cut sketch "Esboço26" against normal blind 200
sketch "Esboço27" plane through (0, 0, 120) normal (0, 0, 1) x (1, 0, 0)
  circle A0 centre (0, 0) radius 45.9757
extrude "Extrusão33" cut sketch "Esboço27" along normal blind 100
